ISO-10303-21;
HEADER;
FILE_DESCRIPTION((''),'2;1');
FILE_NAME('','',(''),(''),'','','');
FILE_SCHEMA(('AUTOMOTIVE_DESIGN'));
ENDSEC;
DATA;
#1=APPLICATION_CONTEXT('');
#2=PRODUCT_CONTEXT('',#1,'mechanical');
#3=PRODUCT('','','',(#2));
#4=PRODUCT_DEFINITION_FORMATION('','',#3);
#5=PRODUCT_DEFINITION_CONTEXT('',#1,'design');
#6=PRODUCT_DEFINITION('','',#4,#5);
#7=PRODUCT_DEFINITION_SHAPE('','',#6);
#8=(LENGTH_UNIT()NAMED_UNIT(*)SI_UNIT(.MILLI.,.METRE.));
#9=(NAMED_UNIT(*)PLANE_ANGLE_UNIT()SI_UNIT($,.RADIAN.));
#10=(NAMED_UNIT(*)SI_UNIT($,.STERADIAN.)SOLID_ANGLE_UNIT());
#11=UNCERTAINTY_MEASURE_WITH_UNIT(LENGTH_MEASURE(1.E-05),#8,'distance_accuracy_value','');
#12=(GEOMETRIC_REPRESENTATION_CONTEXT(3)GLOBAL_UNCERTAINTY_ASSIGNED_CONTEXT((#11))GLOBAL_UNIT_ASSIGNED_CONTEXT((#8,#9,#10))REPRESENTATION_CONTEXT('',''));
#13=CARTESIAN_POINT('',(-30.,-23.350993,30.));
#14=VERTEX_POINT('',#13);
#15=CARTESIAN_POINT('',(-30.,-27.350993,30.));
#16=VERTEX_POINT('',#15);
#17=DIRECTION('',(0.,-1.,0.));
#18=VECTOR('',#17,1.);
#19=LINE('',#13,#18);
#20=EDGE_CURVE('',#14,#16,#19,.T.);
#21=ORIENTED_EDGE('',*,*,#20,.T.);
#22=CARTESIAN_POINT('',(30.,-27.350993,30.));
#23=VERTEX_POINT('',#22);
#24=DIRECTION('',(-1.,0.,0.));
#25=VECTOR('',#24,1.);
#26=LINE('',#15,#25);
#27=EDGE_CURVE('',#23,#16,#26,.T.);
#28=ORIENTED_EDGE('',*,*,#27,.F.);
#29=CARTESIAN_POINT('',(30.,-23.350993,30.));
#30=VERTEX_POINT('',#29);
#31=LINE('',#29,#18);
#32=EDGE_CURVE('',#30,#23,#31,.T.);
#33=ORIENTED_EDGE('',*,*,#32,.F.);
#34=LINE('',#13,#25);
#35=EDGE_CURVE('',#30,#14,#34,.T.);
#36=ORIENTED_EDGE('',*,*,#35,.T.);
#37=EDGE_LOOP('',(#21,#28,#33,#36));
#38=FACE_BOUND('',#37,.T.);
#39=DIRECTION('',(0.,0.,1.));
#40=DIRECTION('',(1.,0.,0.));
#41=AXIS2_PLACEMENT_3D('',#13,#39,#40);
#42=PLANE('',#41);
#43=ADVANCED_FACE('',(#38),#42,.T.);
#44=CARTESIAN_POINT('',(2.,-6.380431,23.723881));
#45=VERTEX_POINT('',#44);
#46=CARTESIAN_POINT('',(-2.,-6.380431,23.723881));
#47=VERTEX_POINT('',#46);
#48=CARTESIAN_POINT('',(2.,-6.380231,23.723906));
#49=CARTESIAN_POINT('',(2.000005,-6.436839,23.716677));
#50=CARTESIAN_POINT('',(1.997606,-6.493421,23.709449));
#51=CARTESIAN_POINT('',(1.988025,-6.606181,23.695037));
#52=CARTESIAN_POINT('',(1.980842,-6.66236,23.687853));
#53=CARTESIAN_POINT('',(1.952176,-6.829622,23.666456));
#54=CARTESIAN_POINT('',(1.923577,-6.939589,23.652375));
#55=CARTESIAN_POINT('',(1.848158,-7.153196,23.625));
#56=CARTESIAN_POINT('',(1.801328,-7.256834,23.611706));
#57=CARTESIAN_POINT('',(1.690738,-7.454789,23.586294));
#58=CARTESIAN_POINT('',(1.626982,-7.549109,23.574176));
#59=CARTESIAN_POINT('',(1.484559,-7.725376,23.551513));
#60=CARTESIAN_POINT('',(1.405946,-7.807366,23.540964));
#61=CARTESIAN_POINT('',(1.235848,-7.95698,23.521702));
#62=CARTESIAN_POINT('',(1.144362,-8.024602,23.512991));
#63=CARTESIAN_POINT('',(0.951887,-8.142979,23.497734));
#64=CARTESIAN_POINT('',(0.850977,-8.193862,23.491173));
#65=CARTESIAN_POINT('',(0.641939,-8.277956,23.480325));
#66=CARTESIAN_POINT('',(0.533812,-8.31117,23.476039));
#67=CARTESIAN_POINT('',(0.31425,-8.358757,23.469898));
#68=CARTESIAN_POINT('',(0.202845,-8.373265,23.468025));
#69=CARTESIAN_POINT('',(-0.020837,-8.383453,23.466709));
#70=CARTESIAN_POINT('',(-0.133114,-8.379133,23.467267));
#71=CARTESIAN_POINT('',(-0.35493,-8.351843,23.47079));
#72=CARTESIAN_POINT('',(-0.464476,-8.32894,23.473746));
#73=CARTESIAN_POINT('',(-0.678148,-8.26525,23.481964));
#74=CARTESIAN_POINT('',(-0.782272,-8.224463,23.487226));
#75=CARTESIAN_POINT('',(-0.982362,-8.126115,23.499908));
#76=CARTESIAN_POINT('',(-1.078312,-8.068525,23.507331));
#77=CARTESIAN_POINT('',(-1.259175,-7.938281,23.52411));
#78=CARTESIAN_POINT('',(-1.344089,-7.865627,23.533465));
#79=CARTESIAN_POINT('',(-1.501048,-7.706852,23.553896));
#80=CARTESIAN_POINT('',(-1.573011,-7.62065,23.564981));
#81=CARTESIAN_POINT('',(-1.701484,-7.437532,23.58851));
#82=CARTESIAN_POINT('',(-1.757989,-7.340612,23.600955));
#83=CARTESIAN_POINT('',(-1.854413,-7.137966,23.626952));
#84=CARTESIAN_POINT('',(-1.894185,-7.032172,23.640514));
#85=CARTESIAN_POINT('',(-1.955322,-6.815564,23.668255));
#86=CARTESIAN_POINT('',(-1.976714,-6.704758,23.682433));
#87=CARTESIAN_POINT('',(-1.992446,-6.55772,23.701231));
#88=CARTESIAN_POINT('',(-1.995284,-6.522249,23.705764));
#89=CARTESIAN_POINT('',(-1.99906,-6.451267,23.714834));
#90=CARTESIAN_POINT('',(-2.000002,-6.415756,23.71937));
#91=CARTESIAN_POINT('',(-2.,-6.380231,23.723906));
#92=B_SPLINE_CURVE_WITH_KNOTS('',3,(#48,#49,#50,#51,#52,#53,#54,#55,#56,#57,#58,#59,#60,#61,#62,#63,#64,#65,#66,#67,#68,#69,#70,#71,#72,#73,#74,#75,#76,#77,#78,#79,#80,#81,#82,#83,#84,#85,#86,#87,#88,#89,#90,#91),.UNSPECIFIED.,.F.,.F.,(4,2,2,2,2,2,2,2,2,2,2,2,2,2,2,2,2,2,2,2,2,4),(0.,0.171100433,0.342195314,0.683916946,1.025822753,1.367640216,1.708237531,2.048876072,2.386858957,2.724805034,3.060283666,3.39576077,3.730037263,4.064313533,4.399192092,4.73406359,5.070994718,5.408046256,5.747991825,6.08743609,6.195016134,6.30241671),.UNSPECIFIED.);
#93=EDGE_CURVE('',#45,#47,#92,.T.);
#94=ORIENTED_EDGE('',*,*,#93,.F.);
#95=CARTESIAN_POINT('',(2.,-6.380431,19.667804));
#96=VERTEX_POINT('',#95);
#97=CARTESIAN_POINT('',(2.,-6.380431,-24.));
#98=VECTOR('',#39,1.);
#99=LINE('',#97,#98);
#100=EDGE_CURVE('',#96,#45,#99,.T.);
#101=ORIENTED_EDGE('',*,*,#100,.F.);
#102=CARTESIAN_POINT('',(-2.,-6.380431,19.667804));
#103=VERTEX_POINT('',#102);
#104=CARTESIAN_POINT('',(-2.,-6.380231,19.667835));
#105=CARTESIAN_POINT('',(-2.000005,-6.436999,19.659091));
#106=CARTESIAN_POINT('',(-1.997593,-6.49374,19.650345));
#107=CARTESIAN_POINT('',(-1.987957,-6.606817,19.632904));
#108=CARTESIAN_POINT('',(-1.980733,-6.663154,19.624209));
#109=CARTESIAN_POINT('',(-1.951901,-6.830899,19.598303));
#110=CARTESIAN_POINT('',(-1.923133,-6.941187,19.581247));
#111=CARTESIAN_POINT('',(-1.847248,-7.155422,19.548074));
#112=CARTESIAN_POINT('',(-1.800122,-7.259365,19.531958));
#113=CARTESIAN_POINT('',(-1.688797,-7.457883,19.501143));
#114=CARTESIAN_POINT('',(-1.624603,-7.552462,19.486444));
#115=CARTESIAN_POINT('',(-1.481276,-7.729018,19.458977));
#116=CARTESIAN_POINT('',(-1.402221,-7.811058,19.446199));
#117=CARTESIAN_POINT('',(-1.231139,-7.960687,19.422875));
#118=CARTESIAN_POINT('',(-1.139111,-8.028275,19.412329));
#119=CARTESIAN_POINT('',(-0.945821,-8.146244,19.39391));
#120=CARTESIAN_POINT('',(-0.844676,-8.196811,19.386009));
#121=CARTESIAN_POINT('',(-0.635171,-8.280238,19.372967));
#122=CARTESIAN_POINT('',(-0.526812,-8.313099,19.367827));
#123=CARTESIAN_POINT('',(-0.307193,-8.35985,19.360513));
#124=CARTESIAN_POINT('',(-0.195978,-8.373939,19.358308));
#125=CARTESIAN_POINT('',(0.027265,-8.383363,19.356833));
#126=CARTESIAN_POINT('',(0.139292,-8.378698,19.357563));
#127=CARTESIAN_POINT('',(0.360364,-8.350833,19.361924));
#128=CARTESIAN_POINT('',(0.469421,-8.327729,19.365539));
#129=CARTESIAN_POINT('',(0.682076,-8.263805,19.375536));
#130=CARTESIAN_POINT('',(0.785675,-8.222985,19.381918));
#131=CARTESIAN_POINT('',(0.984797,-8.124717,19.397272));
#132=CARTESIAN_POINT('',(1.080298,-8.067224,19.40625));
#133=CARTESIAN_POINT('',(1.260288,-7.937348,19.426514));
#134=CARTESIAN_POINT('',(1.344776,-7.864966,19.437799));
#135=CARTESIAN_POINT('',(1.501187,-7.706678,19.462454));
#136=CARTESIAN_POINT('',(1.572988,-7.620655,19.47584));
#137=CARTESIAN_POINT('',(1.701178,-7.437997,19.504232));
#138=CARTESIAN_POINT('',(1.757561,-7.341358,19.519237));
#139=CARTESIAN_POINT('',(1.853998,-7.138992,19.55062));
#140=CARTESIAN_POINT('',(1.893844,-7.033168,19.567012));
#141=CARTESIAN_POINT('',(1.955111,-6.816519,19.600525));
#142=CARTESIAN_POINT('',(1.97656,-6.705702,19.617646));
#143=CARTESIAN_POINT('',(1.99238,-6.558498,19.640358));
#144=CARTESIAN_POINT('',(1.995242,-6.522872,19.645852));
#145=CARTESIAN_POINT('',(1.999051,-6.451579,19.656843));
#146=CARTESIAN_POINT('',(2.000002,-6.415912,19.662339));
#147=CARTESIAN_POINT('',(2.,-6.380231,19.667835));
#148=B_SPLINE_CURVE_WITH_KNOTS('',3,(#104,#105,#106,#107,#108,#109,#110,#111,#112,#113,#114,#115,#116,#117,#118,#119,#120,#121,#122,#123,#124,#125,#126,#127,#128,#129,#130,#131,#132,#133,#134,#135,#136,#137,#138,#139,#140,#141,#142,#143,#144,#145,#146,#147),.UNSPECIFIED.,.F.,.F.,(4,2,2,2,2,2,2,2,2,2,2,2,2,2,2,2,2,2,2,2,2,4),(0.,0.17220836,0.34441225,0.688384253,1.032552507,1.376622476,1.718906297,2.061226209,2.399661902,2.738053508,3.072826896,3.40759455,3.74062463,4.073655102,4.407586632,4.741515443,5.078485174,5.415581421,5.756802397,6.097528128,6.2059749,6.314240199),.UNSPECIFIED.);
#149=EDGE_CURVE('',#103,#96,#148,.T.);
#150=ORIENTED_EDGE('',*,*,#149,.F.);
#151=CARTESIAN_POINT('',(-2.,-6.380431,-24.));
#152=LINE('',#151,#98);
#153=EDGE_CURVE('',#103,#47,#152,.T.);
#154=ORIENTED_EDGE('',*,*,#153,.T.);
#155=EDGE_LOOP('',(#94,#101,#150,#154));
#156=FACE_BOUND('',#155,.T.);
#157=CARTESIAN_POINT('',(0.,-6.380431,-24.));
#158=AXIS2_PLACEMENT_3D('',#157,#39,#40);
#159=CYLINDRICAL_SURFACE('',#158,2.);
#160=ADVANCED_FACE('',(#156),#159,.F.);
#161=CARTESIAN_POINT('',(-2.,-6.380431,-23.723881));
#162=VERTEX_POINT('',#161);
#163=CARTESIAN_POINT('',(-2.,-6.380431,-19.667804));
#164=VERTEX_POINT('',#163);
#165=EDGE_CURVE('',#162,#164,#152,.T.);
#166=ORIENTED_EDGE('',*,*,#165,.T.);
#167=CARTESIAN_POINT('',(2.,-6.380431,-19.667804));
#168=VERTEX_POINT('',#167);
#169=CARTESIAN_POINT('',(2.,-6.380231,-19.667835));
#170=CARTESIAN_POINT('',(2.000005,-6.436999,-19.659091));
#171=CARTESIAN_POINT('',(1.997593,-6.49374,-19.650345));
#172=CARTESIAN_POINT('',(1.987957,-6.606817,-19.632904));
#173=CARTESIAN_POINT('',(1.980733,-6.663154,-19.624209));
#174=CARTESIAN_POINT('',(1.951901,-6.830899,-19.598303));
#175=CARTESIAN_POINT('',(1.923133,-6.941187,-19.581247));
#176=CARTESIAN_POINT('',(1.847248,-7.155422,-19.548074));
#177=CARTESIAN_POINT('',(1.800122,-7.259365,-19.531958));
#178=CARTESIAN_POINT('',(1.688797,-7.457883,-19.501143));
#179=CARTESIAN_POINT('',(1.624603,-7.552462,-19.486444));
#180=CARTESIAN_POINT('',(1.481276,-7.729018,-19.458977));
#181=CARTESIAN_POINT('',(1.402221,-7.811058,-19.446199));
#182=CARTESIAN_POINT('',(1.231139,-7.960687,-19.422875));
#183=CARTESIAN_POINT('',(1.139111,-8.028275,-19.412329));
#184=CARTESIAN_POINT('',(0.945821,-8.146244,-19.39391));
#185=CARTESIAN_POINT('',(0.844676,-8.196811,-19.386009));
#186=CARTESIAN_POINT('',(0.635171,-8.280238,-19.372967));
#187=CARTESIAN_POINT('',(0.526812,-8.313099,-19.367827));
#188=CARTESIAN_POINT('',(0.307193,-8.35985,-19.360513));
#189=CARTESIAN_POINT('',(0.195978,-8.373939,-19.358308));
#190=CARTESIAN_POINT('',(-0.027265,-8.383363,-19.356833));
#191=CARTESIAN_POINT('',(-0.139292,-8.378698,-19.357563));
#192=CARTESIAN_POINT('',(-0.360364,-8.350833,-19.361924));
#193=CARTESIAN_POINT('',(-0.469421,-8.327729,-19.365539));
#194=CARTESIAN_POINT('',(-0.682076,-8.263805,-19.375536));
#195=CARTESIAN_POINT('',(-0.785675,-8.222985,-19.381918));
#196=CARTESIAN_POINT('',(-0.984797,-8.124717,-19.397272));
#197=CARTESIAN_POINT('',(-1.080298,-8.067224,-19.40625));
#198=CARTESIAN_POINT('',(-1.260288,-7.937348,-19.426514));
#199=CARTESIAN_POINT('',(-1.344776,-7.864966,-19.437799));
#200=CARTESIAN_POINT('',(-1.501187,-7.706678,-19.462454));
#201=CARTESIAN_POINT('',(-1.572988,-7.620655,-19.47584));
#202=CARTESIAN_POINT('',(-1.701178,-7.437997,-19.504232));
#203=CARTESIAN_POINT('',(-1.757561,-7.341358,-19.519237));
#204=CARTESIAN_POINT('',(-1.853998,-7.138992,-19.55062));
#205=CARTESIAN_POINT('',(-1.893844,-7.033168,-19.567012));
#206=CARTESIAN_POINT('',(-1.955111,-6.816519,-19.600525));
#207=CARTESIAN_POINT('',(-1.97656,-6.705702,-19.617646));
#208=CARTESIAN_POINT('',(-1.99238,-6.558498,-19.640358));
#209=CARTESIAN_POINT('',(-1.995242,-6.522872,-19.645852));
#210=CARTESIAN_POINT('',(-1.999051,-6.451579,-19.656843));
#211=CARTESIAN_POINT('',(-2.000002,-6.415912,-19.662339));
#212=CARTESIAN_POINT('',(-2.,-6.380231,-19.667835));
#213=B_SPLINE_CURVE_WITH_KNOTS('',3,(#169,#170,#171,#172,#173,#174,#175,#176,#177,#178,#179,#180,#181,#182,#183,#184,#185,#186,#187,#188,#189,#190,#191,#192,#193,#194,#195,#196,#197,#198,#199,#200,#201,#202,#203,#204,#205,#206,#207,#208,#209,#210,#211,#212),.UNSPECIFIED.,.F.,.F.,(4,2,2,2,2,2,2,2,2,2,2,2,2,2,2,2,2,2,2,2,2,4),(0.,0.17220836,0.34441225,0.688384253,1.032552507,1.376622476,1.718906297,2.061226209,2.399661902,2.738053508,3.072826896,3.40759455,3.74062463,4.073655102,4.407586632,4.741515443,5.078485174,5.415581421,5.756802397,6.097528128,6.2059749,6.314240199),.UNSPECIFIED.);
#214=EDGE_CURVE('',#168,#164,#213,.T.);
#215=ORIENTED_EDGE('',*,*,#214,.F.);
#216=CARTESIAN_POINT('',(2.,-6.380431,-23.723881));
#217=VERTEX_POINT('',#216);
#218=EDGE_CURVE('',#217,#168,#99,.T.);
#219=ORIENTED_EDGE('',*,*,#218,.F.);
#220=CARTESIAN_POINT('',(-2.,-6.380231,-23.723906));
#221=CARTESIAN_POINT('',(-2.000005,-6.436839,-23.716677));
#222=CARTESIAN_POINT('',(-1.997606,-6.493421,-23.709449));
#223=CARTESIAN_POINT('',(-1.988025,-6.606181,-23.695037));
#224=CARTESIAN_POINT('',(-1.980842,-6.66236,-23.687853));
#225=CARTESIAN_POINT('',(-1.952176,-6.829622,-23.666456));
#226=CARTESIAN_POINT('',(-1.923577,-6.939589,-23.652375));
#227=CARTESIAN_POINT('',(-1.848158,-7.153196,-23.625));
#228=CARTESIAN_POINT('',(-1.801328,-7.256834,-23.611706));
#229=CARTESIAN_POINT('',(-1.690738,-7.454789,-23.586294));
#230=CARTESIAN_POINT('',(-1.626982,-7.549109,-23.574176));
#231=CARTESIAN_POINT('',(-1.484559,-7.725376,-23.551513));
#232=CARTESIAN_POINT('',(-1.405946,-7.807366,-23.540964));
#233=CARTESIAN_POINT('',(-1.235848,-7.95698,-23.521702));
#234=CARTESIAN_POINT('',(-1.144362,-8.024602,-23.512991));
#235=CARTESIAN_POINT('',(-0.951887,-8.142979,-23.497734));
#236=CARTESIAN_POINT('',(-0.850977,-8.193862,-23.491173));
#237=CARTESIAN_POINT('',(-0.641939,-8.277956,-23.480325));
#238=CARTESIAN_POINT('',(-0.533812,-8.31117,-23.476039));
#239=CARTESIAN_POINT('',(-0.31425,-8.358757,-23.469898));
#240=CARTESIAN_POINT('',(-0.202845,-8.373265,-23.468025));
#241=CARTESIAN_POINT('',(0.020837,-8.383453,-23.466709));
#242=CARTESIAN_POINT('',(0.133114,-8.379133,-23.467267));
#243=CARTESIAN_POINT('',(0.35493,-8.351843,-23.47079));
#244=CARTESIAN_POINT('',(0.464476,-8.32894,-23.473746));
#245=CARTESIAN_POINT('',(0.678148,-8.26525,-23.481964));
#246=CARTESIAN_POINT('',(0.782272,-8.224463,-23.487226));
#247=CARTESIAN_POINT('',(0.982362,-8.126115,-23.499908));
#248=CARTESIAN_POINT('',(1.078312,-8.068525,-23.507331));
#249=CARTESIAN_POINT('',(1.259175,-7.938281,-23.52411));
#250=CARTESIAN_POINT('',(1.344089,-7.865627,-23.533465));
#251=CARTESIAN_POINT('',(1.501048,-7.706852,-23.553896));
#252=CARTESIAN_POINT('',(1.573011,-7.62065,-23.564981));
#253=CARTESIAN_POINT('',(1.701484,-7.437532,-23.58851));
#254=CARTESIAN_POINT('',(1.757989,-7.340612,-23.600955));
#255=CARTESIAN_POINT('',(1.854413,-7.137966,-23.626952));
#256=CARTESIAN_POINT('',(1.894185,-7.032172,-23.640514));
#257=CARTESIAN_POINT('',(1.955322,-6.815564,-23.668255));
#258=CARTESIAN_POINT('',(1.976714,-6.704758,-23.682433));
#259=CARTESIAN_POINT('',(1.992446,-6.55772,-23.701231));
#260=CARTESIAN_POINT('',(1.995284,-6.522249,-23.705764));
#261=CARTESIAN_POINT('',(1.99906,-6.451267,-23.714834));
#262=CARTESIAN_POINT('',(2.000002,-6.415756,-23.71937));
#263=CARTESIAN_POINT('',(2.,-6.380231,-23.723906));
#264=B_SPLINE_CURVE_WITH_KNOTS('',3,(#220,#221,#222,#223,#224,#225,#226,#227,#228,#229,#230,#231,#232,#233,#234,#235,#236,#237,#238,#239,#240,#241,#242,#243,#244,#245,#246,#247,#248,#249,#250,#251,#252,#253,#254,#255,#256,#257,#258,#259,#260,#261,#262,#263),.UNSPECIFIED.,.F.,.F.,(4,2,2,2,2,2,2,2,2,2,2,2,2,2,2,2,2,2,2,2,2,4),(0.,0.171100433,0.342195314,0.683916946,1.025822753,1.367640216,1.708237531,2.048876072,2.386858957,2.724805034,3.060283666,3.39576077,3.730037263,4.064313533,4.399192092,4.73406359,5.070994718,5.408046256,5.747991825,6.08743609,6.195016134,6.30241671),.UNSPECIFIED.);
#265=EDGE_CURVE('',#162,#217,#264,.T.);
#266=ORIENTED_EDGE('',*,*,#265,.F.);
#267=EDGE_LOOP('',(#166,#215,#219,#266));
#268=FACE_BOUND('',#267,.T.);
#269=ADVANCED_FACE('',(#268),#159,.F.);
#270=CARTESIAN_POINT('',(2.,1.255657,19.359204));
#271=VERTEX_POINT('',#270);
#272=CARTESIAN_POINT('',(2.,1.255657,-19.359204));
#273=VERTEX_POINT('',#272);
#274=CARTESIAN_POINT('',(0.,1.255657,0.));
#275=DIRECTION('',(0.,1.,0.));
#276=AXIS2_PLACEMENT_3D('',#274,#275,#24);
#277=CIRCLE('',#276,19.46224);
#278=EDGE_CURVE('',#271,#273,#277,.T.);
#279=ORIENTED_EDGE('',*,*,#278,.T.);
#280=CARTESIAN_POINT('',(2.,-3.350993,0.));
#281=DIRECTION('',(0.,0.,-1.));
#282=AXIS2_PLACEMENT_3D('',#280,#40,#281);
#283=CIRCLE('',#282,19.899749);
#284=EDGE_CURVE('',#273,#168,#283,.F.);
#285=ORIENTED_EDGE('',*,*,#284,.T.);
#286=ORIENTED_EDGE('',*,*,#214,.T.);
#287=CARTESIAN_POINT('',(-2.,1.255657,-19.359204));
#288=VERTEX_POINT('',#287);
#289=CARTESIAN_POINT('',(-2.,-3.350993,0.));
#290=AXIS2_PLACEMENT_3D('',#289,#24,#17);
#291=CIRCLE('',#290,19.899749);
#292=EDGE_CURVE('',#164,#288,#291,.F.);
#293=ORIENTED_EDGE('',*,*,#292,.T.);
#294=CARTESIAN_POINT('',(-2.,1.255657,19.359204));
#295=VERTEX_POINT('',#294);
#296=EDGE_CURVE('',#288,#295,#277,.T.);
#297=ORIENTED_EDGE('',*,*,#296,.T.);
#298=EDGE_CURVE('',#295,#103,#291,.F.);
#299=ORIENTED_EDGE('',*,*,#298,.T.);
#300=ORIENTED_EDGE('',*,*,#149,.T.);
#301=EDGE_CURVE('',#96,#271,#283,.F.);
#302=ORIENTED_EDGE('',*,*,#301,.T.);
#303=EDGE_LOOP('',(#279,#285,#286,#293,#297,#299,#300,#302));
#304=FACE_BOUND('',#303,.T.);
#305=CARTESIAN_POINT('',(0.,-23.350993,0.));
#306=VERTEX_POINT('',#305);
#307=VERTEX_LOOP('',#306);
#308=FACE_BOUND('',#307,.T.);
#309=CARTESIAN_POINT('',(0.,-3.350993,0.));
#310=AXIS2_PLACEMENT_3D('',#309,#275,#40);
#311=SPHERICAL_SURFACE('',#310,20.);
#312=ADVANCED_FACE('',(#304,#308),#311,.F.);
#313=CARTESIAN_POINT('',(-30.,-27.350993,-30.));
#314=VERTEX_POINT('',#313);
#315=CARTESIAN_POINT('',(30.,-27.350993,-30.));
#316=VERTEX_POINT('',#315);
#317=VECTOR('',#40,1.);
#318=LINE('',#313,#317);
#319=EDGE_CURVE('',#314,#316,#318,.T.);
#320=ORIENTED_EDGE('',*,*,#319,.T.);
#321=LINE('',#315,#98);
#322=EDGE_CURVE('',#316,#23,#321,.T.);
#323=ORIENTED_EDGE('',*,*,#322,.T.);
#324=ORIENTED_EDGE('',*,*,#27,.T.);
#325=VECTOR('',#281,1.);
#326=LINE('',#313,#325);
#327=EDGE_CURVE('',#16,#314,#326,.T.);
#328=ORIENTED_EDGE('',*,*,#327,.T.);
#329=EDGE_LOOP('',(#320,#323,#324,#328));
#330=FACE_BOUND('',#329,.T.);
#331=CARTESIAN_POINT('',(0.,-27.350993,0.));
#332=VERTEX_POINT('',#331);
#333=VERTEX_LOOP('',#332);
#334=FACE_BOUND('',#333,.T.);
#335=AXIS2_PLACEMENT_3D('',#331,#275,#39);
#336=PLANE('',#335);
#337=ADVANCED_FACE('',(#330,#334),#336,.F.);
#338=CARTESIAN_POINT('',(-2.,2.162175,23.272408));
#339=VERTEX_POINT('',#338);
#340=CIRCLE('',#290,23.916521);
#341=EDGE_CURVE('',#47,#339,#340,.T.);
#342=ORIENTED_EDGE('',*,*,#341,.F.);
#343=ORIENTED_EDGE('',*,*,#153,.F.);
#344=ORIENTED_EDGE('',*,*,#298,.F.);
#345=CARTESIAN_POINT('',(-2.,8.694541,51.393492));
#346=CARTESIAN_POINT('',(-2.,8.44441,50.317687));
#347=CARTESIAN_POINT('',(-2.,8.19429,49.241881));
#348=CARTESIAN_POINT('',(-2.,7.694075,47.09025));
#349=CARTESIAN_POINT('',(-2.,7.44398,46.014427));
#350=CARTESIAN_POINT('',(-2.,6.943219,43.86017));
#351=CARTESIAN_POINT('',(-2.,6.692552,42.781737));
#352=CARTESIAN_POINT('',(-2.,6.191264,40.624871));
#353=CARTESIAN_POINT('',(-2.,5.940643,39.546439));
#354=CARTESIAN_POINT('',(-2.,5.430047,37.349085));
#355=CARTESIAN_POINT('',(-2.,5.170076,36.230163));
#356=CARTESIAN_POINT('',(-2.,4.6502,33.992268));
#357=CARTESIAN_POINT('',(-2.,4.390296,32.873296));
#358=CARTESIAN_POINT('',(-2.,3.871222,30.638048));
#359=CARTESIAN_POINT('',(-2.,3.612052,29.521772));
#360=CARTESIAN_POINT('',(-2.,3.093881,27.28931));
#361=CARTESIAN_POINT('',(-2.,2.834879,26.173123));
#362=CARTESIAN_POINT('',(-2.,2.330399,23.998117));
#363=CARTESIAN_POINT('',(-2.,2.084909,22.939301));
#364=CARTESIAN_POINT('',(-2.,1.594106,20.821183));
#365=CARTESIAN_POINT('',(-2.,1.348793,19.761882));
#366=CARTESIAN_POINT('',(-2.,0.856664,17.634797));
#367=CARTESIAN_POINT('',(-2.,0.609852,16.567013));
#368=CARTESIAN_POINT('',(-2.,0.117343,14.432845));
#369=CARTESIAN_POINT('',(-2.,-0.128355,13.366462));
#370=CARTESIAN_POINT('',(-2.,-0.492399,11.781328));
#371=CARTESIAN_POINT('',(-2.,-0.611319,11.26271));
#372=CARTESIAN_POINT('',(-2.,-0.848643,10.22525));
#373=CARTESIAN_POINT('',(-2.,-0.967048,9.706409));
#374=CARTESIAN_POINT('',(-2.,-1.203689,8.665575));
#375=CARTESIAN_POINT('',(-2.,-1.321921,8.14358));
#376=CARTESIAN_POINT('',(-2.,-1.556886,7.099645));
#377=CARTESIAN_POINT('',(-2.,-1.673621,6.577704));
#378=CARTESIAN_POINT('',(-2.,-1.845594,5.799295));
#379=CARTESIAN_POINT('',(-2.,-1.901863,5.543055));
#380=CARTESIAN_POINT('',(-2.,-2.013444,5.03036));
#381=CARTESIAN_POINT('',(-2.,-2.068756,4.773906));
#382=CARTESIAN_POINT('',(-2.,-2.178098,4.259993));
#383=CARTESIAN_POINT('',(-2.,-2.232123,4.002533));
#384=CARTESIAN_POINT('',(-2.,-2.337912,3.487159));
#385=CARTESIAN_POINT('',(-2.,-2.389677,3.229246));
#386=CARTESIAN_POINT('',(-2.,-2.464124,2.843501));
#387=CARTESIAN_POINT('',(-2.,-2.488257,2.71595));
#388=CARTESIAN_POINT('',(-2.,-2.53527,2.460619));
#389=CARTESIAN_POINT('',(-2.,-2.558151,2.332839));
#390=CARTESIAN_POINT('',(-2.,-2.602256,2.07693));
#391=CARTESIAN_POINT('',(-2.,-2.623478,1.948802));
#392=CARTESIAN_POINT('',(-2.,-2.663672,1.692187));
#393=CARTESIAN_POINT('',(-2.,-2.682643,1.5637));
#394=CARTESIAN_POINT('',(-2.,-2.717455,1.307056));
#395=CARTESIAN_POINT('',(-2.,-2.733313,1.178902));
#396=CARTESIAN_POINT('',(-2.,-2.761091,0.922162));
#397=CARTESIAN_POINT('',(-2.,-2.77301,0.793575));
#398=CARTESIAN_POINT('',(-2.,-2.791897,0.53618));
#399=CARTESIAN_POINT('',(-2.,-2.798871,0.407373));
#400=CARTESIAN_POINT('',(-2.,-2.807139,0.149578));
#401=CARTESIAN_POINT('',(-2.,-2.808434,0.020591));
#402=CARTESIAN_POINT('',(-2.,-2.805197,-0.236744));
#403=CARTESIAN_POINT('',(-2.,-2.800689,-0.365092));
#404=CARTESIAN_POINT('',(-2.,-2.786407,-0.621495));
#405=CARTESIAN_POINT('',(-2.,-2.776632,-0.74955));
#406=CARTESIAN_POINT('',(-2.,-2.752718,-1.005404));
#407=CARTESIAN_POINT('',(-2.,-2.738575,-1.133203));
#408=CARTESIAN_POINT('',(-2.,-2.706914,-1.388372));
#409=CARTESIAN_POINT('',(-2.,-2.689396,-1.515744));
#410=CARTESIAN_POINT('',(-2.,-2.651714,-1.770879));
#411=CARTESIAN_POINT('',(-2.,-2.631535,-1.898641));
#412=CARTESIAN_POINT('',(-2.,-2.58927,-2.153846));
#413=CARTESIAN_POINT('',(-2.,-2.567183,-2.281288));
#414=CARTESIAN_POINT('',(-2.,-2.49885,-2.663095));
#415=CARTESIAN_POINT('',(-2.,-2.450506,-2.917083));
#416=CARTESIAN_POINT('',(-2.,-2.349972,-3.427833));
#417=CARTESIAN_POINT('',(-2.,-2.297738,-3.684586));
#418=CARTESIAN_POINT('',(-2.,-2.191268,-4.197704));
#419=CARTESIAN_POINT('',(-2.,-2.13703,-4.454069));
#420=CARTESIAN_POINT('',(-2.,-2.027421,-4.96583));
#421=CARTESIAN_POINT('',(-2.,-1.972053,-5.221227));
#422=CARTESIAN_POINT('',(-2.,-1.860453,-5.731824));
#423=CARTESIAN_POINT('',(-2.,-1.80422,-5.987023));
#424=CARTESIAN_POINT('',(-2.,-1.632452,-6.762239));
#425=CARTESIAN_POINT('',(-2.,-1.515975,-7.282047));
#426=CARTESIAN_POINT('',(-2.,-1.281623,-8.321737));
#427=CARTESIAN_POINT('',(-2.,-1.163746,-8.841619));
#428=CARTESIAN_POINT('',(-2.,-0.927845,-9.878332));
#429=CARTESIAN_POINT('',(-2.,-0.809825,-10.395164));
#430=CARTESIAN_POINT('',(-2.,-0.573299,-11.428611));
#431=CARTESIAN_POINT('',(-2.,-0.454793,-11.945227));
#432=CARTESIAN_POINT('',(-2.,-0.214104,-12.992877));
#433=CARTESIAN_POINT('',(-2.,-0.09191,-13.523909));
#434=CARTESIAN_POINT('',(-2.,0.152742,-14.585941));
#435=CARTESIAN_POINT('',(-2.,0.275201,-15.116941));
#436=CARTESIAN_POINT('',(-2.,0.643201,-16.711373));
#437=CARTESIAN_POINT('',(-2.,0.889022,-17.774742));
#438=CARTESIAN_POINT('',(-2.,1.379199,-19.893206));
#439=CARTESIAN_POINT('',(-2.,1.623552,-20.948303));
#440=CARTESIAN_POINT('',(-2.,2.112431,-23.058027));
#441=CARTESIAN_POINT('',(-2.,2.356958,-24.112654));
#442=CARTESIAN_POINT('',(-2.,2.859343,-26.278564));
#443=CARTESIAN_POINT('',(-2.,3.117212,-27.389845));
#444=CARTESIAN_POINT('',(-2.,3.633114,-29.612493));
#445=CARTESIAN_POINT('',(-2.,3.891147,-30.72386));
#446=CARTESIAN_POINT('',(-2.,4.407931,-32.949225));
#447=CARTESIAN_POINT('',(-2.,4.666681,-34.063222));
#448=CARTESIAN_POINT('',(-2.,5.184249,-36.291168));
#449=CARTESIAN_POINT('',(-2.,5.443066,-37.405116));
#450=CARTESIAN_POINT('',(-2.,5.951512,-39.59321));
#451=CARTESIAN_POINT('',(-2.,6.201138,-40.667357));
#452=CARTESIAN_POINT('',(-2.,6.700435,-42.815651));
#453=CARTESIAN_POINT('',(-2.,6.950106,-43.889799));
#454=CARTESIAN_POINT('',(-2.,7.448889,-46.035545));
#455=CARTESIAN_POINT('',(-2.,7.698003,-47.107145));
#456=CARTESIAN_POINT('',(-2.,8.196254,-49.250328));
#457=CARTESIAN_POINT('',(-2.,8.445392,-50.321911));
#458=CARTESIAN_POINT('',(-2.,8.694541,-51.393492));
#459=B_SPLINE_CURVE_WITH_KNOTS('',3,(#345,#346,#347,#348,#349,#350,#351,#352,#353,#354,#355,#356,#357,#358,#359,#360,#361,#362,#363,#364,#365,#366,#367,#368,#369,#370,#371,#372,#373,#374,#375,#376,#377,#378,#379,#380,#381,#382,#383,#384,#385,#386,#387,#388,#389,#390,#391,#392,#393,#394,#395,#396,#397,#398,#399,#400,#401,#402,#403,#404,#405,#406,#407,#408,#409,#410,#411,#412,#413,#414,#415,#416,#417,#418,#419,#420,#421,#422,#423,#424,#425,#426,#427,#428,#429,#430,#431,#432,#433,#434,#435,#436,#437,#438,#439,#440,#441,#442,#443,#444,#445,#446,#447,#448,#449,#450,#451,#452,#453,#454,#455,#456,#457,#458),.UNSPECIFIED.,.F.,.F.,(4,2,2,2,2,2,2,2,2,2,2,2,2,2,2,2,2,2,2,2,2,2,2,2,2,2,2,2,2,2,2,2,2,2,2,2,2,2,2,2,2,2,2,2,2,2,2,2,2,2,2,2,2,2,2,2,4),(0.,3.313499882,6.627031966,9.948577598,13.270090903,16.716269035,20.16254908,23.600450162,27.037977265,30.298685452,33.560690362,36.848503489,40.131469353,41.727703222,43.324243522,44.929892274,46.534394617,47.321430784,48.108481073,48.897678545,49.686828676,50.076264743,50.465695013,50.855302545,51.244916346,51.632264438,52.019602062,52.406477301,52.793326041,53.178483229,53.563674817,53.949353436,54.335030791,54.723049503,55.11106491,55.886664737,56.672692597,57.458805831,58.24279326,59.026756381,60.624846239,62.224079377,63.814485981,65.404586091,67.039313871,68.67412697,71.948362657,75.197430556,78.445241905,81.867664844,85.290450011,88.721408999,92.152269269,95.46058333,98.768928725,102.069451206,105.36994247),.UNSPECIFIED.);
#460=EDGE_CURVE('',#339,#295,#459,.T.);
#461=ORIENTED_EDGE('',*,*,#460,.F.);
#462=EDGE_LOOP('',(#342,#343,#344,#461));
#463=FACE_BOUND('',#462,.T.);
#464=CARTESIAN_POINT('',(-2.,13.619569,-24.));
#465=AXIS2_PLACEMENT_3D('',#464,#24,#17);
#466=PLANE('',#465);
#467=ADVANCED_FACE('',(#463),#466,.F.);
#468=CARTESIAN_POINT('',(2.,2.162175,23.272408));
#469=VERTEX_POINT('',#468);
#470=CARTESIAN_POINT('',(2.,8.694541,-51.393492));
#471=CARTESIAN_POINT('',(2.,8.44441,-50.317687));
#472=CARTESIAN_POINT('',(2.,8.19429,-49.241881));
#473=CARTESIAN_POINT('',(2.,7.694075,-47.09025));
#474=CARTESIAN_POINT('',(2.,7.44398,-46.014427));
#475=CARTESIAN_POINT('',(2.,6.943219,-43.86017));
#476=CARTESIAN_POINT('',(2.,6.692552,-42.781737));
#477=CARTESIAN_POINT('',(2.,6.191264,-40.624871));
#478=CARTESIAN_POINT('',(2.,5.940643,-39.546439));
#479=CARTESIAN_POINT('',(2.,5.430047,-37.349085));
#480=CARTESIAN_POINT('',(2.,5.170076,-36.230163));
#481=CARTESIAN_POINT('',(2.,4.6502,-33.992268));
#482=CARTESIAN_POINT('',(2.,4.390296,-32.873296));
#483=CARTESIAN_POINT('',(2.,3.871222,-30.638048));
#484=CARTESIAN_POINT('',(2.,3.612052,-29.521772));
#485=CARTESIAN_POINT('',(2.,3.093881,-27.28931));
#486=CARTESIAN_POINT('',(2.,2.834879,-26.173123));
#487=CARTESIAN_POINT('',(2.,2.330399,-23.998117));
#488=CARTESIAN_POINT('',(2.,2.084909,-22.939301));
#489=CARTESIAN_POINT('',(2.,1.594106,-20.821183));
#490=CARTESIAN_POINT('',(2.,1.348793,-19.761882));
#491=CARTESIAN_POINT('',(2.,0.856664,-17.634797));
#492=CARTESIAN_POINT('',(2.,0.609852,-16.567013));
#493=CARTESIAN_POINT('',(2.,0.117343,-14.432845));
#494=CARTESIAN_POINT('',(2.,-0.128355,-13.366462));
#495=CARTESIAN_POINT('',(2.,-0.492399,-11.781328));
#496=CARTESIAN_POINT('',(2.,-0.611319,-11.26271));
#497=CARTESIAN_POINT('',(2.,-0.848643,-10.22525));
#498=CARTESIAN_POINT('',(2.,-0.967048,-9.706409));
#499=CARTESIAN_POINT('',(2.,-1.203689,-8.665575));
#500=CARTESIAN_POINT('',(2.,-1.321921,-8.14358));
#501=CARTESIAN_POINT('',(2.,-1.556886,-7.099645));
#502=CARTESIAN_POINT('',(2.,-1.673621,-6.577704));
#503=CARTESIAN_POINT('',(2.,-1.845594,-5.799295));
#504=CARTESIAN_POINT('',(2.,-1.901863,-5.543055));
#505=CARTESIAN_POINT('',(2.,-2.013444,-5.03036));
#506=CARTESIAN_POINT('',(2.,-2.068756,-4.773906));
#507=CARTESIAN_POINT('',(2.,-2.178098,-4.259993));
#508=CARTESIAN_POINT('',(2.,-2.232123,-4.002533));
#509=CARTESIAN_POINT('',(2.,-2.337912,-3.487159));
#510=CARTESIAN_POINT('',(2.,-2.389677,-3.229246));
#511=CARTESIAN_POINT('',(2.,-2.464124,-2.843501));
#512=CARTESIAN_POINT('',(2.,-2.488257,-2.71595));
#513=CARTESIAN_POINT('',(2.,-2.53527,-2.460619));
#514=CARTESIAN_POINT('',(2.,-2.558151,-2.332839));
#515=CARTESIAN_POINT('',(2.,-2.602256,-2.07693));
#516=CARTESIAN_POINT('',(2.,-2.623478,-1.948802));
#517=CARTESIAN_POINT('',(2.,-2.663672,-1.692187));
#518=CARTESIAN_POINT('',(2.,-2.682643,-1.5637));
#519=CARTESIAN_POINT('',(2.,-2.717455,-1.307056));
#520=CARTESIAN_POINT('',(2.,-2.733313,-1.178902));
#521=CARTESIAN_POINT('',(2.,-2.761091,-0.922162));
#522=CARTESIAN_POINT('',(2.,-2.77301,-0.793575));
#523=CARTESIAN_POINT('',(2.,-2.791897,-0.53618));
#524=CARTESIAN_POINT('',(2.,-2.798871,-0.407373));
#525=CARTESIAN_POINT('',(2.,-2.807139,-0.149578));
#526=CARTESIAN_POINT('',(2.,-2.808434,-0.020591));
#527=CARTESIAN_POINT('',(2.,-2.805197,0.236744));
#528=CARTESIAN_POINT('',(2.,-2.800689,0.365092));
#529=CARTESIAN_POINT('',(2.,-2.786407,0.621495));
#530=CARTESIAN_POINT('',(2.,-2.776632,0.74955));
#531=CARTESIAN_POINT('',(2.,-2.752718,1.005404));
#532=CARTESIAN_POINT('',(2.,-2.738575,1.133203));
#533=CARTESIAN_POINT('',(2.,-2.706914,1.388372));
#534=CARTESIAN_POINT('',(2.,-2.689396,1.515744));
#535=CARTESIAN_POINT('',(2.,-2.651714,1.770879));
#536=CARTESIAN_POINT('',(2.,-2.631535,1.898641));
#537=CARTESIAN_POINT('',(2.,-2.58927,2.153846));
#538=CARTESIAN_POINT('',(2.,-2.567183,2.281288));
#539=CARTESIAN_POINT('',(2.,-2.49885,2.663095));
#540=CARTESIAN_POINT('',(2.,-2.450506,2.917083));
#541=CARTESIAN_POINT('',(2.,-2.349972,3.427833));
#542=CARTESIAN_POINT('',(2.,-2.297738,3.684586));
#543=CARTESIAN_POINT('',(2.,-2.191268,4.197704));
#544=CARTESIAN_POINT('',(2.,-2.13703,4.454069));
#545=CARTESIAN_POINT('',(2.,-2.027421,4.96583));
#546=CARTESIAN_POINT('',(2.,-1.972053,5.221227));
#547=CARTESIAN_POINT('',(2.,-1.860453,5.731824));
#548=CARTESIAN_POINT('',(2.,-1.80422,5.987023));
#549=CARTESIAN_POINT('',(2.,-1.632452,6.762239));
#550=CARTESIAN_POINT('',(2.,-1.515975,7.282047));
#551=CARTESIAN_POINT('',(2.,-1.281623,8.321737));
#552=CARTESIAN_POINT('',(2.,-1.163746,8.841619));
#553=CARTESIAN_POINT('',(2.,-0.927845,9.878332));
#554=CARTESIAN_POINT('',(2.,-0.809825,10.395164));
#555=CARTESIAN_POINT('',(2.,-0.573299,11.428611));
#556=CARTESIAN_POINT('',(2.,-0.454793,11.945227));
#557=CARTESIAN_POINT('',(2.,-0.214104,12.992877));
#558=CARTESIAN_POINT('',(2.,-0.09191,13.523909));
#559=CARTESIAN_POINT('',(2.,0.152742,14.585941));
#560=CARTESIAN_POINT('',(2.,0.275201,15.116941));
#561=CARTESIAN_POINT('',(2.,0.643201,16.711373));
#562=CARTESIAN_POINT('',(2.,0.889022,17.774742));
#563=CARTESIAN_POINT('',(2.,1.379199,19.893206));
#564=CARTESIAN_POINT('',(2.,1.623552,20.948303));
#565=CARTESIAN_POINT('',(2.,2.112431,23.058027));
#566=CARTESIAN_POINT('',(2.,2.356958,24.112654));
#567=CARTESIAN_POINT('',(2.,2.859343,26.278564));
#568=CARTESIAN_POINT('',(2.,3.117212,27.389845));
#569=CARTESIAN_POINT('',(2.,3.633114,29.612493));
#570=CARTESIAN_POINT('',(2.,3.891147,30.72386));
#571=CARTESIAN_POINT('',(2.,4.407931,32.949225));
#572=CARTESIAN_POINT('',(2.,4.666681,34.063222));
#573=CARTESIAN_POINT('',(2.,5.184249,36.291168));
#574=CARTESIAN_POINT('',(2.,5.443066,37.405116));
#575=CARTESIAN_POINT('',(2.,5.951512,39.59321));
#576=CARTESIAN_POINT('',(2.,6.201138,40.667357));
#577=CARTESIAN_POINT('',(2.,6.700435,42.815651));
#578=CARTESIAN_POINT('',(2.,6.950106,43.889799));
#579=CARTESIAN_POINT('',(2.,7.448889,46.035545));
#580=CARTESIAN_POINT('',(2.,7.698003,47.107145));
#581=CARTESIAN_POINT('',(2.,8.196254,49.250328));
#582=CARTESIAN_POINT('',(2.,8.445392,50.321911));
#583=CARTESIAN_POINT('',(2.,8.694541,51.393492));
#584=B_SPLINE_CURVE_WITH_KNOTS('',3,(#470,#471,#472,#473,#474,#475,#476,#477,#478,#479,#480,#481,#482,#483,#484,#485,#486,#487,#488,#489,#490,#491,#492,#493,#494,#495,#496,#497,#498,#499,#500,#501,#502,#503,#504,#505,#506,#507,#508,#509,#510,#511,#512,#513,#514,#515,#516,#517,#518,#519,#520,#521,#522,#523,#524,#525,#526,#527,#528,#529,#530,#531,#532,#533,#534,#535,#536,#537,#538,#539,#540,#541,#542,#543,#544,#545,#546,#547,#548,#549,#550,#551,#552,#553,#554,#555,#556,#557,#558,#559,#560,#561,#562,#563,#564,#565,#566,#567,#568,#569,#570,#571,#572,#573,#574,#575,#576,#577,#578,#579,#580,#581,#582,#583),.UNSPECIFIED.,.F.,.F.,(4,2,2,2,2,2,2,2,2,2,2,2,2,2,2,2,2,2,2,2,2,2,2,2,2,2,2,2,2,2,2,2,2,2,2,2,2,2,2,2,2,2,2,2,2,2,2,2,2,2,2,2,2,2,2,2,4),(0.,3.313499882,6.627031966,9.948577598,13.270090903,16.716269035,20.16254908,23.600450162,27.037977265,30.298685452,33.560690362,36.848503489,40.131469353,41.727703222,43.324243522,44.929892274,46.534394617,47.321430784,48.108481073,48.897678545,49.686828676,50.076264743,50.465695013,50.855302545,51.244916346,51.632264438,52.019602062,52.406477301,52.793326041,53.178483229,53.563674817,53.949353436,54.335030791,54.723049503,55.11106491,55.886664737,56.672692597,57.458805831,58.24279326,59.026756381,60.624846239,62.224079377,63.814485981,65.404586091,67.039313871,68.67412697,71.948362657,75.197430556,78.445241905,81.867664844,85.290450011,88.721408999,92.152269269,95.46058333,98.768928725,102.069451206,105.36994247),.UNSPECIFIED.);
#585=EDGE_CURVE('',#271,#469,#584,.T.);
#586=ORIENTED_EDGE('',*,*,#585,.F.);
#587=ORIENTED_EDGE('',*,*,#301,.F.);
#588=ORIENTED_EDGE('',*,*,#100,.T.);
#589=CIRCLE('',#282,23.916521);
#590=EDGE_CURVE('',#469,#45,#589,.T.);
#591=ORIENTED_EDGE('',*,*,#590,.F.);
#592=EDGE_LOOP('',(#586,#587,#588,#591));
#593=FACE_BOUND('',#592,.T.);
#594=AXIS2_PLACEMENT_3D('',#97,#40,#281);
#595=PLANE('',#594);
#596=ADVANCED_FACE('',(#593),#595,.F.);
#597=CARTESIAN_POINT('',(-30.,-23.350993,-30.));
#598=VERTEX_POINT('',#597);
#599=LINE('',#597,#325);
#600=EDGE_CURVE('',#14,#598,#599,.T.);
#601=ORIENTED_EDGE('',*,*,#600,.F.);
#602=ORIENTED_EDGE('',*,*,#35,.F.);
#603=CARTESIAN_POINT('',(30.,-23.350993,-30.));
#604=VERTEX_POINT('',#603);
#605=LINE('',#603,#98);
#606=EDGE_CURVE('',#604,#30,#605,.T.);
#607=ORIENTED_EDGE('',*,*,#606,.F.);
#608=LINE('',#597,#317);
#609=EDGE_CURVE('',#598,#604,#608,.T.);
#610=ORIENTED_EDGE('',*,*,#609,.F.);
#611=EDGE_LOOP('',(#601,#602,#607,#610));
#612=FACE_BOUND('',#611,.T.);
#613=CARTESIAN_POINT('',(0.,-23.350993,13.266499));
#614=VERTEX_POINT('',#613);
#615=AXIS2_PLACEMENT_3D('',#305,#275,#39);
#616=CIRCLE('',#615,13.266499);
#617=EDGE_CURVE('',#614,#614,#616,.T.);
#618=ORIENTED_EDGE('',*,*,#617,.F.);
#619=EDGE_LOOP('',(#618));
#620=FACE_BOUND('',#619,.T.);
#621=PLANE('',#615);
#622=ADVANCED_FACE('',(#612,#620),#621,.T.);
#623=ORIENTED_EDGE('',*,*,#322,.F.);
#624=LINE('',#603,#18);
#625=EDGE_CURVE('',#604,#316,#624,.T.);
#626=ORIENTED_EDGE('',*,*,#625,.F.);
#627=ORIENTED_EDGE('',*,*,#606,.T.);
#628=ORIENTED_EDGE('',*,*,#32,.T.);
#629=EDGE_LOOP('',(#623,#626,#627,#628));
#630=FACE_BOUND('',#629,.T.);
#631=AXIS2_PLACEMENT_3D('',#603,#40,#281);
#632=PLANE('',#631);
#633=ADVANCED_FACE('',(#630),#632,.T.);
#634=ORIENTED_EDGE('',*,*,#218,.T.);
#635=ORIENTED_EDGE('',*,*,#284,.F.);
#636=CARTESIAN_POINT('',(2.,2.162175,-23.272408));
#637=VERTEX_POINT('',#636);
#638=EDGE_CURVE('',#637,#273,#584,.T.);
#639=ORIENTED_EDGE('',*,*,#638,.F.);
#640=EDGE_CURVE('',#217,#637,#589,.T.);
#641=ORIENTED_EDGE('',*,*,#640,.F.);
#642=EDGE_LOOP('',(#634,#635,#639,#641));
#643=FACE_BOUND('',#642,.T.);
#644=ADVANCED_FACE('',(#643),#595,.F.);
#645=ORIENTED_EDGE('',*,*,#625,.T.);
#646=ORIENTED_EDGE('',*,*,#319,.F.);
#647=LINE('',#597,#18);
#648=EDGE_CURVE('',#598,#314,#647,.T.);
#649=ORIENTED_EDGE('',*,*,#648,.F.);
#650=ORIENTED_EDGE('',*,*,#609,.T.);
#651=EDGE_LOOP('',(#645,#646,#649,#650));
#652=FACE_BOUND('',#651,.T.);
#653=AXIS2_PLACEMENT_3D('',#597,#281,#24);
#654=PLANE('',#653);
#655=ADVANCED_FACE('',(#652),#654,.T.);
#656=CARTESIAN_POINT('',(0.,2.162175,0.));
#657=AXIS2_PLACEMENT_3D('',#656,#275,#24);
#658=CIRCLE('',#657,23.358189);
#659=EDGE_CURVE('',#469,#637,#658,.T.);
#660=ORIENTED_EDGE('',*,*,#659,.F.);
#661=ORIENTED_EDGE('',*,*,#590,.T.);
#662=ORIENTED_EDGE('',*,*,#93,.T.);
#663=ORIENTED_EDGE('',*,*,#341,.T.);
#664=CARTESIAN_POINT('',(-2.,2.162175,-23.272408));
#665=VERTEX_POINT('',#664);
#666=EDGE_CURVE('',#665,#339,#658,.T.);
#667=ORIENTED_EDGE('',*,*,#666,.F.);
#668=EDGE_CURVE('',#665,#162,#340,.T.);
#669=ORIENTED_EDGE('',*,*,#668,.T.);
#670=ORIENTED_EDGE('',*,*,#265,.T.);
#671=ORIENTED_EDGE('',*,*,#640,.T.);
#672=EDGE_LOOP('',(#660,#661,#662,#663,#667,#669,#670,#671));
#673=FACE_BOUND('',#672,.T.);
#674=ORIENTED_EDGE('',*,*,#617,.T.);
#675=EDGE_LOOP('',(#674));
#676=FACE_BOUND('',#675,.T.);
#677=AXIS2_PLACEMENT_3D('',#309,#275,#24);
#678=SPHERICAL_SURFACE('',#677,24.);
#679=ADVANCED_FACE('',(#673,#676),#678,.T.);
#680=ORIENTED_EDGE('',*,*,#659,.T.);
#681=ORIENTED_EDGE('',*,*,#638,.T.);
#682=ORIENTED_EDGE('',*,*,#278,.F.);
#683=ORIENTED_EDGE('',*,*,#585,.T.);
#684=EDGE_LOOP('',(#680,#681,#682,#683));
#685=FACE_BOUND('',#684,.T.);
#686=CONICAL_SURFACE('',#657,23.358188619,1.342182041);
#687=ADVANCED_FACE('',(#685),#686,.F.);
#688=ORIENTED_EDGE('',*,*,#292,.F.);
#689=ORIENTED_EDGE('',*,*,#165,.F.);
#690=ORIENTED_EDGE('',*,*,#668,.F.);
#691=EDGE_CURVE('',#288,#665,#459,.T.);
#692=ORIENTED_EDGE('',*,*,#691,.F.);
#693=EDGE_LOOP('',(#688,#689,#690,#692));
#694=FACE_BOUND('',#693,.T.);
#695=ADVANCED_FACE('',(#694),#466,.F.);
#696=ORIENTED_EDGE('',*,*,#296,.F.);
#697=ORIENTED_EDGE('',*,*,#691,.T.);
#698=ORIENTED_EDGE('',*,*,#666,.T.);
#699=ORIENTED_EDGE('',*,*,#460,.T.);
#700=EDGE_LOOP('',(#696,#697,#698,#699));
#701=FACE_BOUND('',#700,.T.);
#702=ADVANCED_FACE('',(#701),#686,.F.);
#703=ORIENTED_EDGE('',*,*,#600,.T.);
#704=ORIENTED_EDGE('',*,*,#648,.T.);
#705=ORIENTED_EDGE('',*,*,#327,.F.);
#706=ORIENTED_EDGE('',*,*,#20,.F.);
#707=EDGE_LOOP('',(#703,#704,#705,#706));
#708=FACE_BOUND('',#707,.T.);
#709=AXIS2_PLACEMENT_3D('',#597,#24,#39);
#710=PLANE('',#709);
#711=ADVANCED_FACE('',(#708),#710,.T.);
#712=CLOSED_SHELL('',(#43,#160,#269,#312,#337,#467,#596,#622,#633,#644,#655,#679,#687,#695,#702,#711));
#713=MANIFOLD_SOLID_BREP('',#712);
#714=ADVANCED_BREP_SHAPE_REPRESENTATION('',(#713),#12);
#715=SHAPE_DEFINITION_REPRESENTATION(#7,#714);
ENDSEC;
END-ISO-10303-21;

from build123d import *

# Parameters (mm, degrees)
CUT_EXTRUDE1_DEPTH      = 44.589870827
CUT_EXTRUDE1_DEPTH_BACK = 44.589870827
SKETCH4_W               = 60
SKETCH4_H               = 60
BOSS_EXTRUDE1_DEPTH     = 4


with BuildPart() as part:
    # Sketch1 → Revolve1 (revolve)
    with BuildSketch(Plane.XY, mode=Mode.PRIVATE) as revolve1_sk:
        with BuildLine():
            Line((0, -23.350993377), (0, -27.350993377))
            ThreePointArc((0, -27.350993377), (18.81908657, -18.245354078), (23.358188619, 2.1621749))
            Line((23.358188619, 2.1621749), (19.462239628, 1.255657105))
            ThreePointArc((19.462239628, 1.255657105), (15.686507094, -15.757987178), (0, -23.350993377))
        make_face()
    revolve(revolve1_sk.sketch.rotate(Axis((0, 16.649006623, 0), (0, -1, 0)), 180), axis=Axis((0, 16.649006623, 0), (0, -1, 0)))

    # Sketch2 → Cut-Extrude1 (cut, two sides: drawn at the far end of the back side and taken through both)
    with BuildSketch(Plane.XY.offset(-CUT_EXTRUDE1_DEPTH_BACK)):
        with BuildLine():
            Line((0, 13.619569371), (-2, 13.619569371))
            Line((-2, 13.619569371), (-2, -6.380430629))
            ThreePointArc((-2, -6.380430629), (0, -8.380430629), (2, -6.380430629))
            Line((2, -6.380430629), (2, 13.619569371))
            Line((2, 13.619569371), (0, 13.619569371))
        make_face()
    extrude(amount=CUT_EXTRUDE1_DEPTH + CUT_EXTRUDE1_DEPTH_BACK, mode=Mode.SUBTRACT)

    # Sketch4 → Boss-Extrude1 (add)
    with BuildSketch(Plane(origin=(0, -27.350993377, 0), x_dir=(-1, 0, 0), z_dir=(0, -1, 0))):
        Rectangle(SKETCH4_W, SKETCH4_H)
    extrude(amount=-BOSS_EXTRUDE1_DEPTH)


solid = part.part
